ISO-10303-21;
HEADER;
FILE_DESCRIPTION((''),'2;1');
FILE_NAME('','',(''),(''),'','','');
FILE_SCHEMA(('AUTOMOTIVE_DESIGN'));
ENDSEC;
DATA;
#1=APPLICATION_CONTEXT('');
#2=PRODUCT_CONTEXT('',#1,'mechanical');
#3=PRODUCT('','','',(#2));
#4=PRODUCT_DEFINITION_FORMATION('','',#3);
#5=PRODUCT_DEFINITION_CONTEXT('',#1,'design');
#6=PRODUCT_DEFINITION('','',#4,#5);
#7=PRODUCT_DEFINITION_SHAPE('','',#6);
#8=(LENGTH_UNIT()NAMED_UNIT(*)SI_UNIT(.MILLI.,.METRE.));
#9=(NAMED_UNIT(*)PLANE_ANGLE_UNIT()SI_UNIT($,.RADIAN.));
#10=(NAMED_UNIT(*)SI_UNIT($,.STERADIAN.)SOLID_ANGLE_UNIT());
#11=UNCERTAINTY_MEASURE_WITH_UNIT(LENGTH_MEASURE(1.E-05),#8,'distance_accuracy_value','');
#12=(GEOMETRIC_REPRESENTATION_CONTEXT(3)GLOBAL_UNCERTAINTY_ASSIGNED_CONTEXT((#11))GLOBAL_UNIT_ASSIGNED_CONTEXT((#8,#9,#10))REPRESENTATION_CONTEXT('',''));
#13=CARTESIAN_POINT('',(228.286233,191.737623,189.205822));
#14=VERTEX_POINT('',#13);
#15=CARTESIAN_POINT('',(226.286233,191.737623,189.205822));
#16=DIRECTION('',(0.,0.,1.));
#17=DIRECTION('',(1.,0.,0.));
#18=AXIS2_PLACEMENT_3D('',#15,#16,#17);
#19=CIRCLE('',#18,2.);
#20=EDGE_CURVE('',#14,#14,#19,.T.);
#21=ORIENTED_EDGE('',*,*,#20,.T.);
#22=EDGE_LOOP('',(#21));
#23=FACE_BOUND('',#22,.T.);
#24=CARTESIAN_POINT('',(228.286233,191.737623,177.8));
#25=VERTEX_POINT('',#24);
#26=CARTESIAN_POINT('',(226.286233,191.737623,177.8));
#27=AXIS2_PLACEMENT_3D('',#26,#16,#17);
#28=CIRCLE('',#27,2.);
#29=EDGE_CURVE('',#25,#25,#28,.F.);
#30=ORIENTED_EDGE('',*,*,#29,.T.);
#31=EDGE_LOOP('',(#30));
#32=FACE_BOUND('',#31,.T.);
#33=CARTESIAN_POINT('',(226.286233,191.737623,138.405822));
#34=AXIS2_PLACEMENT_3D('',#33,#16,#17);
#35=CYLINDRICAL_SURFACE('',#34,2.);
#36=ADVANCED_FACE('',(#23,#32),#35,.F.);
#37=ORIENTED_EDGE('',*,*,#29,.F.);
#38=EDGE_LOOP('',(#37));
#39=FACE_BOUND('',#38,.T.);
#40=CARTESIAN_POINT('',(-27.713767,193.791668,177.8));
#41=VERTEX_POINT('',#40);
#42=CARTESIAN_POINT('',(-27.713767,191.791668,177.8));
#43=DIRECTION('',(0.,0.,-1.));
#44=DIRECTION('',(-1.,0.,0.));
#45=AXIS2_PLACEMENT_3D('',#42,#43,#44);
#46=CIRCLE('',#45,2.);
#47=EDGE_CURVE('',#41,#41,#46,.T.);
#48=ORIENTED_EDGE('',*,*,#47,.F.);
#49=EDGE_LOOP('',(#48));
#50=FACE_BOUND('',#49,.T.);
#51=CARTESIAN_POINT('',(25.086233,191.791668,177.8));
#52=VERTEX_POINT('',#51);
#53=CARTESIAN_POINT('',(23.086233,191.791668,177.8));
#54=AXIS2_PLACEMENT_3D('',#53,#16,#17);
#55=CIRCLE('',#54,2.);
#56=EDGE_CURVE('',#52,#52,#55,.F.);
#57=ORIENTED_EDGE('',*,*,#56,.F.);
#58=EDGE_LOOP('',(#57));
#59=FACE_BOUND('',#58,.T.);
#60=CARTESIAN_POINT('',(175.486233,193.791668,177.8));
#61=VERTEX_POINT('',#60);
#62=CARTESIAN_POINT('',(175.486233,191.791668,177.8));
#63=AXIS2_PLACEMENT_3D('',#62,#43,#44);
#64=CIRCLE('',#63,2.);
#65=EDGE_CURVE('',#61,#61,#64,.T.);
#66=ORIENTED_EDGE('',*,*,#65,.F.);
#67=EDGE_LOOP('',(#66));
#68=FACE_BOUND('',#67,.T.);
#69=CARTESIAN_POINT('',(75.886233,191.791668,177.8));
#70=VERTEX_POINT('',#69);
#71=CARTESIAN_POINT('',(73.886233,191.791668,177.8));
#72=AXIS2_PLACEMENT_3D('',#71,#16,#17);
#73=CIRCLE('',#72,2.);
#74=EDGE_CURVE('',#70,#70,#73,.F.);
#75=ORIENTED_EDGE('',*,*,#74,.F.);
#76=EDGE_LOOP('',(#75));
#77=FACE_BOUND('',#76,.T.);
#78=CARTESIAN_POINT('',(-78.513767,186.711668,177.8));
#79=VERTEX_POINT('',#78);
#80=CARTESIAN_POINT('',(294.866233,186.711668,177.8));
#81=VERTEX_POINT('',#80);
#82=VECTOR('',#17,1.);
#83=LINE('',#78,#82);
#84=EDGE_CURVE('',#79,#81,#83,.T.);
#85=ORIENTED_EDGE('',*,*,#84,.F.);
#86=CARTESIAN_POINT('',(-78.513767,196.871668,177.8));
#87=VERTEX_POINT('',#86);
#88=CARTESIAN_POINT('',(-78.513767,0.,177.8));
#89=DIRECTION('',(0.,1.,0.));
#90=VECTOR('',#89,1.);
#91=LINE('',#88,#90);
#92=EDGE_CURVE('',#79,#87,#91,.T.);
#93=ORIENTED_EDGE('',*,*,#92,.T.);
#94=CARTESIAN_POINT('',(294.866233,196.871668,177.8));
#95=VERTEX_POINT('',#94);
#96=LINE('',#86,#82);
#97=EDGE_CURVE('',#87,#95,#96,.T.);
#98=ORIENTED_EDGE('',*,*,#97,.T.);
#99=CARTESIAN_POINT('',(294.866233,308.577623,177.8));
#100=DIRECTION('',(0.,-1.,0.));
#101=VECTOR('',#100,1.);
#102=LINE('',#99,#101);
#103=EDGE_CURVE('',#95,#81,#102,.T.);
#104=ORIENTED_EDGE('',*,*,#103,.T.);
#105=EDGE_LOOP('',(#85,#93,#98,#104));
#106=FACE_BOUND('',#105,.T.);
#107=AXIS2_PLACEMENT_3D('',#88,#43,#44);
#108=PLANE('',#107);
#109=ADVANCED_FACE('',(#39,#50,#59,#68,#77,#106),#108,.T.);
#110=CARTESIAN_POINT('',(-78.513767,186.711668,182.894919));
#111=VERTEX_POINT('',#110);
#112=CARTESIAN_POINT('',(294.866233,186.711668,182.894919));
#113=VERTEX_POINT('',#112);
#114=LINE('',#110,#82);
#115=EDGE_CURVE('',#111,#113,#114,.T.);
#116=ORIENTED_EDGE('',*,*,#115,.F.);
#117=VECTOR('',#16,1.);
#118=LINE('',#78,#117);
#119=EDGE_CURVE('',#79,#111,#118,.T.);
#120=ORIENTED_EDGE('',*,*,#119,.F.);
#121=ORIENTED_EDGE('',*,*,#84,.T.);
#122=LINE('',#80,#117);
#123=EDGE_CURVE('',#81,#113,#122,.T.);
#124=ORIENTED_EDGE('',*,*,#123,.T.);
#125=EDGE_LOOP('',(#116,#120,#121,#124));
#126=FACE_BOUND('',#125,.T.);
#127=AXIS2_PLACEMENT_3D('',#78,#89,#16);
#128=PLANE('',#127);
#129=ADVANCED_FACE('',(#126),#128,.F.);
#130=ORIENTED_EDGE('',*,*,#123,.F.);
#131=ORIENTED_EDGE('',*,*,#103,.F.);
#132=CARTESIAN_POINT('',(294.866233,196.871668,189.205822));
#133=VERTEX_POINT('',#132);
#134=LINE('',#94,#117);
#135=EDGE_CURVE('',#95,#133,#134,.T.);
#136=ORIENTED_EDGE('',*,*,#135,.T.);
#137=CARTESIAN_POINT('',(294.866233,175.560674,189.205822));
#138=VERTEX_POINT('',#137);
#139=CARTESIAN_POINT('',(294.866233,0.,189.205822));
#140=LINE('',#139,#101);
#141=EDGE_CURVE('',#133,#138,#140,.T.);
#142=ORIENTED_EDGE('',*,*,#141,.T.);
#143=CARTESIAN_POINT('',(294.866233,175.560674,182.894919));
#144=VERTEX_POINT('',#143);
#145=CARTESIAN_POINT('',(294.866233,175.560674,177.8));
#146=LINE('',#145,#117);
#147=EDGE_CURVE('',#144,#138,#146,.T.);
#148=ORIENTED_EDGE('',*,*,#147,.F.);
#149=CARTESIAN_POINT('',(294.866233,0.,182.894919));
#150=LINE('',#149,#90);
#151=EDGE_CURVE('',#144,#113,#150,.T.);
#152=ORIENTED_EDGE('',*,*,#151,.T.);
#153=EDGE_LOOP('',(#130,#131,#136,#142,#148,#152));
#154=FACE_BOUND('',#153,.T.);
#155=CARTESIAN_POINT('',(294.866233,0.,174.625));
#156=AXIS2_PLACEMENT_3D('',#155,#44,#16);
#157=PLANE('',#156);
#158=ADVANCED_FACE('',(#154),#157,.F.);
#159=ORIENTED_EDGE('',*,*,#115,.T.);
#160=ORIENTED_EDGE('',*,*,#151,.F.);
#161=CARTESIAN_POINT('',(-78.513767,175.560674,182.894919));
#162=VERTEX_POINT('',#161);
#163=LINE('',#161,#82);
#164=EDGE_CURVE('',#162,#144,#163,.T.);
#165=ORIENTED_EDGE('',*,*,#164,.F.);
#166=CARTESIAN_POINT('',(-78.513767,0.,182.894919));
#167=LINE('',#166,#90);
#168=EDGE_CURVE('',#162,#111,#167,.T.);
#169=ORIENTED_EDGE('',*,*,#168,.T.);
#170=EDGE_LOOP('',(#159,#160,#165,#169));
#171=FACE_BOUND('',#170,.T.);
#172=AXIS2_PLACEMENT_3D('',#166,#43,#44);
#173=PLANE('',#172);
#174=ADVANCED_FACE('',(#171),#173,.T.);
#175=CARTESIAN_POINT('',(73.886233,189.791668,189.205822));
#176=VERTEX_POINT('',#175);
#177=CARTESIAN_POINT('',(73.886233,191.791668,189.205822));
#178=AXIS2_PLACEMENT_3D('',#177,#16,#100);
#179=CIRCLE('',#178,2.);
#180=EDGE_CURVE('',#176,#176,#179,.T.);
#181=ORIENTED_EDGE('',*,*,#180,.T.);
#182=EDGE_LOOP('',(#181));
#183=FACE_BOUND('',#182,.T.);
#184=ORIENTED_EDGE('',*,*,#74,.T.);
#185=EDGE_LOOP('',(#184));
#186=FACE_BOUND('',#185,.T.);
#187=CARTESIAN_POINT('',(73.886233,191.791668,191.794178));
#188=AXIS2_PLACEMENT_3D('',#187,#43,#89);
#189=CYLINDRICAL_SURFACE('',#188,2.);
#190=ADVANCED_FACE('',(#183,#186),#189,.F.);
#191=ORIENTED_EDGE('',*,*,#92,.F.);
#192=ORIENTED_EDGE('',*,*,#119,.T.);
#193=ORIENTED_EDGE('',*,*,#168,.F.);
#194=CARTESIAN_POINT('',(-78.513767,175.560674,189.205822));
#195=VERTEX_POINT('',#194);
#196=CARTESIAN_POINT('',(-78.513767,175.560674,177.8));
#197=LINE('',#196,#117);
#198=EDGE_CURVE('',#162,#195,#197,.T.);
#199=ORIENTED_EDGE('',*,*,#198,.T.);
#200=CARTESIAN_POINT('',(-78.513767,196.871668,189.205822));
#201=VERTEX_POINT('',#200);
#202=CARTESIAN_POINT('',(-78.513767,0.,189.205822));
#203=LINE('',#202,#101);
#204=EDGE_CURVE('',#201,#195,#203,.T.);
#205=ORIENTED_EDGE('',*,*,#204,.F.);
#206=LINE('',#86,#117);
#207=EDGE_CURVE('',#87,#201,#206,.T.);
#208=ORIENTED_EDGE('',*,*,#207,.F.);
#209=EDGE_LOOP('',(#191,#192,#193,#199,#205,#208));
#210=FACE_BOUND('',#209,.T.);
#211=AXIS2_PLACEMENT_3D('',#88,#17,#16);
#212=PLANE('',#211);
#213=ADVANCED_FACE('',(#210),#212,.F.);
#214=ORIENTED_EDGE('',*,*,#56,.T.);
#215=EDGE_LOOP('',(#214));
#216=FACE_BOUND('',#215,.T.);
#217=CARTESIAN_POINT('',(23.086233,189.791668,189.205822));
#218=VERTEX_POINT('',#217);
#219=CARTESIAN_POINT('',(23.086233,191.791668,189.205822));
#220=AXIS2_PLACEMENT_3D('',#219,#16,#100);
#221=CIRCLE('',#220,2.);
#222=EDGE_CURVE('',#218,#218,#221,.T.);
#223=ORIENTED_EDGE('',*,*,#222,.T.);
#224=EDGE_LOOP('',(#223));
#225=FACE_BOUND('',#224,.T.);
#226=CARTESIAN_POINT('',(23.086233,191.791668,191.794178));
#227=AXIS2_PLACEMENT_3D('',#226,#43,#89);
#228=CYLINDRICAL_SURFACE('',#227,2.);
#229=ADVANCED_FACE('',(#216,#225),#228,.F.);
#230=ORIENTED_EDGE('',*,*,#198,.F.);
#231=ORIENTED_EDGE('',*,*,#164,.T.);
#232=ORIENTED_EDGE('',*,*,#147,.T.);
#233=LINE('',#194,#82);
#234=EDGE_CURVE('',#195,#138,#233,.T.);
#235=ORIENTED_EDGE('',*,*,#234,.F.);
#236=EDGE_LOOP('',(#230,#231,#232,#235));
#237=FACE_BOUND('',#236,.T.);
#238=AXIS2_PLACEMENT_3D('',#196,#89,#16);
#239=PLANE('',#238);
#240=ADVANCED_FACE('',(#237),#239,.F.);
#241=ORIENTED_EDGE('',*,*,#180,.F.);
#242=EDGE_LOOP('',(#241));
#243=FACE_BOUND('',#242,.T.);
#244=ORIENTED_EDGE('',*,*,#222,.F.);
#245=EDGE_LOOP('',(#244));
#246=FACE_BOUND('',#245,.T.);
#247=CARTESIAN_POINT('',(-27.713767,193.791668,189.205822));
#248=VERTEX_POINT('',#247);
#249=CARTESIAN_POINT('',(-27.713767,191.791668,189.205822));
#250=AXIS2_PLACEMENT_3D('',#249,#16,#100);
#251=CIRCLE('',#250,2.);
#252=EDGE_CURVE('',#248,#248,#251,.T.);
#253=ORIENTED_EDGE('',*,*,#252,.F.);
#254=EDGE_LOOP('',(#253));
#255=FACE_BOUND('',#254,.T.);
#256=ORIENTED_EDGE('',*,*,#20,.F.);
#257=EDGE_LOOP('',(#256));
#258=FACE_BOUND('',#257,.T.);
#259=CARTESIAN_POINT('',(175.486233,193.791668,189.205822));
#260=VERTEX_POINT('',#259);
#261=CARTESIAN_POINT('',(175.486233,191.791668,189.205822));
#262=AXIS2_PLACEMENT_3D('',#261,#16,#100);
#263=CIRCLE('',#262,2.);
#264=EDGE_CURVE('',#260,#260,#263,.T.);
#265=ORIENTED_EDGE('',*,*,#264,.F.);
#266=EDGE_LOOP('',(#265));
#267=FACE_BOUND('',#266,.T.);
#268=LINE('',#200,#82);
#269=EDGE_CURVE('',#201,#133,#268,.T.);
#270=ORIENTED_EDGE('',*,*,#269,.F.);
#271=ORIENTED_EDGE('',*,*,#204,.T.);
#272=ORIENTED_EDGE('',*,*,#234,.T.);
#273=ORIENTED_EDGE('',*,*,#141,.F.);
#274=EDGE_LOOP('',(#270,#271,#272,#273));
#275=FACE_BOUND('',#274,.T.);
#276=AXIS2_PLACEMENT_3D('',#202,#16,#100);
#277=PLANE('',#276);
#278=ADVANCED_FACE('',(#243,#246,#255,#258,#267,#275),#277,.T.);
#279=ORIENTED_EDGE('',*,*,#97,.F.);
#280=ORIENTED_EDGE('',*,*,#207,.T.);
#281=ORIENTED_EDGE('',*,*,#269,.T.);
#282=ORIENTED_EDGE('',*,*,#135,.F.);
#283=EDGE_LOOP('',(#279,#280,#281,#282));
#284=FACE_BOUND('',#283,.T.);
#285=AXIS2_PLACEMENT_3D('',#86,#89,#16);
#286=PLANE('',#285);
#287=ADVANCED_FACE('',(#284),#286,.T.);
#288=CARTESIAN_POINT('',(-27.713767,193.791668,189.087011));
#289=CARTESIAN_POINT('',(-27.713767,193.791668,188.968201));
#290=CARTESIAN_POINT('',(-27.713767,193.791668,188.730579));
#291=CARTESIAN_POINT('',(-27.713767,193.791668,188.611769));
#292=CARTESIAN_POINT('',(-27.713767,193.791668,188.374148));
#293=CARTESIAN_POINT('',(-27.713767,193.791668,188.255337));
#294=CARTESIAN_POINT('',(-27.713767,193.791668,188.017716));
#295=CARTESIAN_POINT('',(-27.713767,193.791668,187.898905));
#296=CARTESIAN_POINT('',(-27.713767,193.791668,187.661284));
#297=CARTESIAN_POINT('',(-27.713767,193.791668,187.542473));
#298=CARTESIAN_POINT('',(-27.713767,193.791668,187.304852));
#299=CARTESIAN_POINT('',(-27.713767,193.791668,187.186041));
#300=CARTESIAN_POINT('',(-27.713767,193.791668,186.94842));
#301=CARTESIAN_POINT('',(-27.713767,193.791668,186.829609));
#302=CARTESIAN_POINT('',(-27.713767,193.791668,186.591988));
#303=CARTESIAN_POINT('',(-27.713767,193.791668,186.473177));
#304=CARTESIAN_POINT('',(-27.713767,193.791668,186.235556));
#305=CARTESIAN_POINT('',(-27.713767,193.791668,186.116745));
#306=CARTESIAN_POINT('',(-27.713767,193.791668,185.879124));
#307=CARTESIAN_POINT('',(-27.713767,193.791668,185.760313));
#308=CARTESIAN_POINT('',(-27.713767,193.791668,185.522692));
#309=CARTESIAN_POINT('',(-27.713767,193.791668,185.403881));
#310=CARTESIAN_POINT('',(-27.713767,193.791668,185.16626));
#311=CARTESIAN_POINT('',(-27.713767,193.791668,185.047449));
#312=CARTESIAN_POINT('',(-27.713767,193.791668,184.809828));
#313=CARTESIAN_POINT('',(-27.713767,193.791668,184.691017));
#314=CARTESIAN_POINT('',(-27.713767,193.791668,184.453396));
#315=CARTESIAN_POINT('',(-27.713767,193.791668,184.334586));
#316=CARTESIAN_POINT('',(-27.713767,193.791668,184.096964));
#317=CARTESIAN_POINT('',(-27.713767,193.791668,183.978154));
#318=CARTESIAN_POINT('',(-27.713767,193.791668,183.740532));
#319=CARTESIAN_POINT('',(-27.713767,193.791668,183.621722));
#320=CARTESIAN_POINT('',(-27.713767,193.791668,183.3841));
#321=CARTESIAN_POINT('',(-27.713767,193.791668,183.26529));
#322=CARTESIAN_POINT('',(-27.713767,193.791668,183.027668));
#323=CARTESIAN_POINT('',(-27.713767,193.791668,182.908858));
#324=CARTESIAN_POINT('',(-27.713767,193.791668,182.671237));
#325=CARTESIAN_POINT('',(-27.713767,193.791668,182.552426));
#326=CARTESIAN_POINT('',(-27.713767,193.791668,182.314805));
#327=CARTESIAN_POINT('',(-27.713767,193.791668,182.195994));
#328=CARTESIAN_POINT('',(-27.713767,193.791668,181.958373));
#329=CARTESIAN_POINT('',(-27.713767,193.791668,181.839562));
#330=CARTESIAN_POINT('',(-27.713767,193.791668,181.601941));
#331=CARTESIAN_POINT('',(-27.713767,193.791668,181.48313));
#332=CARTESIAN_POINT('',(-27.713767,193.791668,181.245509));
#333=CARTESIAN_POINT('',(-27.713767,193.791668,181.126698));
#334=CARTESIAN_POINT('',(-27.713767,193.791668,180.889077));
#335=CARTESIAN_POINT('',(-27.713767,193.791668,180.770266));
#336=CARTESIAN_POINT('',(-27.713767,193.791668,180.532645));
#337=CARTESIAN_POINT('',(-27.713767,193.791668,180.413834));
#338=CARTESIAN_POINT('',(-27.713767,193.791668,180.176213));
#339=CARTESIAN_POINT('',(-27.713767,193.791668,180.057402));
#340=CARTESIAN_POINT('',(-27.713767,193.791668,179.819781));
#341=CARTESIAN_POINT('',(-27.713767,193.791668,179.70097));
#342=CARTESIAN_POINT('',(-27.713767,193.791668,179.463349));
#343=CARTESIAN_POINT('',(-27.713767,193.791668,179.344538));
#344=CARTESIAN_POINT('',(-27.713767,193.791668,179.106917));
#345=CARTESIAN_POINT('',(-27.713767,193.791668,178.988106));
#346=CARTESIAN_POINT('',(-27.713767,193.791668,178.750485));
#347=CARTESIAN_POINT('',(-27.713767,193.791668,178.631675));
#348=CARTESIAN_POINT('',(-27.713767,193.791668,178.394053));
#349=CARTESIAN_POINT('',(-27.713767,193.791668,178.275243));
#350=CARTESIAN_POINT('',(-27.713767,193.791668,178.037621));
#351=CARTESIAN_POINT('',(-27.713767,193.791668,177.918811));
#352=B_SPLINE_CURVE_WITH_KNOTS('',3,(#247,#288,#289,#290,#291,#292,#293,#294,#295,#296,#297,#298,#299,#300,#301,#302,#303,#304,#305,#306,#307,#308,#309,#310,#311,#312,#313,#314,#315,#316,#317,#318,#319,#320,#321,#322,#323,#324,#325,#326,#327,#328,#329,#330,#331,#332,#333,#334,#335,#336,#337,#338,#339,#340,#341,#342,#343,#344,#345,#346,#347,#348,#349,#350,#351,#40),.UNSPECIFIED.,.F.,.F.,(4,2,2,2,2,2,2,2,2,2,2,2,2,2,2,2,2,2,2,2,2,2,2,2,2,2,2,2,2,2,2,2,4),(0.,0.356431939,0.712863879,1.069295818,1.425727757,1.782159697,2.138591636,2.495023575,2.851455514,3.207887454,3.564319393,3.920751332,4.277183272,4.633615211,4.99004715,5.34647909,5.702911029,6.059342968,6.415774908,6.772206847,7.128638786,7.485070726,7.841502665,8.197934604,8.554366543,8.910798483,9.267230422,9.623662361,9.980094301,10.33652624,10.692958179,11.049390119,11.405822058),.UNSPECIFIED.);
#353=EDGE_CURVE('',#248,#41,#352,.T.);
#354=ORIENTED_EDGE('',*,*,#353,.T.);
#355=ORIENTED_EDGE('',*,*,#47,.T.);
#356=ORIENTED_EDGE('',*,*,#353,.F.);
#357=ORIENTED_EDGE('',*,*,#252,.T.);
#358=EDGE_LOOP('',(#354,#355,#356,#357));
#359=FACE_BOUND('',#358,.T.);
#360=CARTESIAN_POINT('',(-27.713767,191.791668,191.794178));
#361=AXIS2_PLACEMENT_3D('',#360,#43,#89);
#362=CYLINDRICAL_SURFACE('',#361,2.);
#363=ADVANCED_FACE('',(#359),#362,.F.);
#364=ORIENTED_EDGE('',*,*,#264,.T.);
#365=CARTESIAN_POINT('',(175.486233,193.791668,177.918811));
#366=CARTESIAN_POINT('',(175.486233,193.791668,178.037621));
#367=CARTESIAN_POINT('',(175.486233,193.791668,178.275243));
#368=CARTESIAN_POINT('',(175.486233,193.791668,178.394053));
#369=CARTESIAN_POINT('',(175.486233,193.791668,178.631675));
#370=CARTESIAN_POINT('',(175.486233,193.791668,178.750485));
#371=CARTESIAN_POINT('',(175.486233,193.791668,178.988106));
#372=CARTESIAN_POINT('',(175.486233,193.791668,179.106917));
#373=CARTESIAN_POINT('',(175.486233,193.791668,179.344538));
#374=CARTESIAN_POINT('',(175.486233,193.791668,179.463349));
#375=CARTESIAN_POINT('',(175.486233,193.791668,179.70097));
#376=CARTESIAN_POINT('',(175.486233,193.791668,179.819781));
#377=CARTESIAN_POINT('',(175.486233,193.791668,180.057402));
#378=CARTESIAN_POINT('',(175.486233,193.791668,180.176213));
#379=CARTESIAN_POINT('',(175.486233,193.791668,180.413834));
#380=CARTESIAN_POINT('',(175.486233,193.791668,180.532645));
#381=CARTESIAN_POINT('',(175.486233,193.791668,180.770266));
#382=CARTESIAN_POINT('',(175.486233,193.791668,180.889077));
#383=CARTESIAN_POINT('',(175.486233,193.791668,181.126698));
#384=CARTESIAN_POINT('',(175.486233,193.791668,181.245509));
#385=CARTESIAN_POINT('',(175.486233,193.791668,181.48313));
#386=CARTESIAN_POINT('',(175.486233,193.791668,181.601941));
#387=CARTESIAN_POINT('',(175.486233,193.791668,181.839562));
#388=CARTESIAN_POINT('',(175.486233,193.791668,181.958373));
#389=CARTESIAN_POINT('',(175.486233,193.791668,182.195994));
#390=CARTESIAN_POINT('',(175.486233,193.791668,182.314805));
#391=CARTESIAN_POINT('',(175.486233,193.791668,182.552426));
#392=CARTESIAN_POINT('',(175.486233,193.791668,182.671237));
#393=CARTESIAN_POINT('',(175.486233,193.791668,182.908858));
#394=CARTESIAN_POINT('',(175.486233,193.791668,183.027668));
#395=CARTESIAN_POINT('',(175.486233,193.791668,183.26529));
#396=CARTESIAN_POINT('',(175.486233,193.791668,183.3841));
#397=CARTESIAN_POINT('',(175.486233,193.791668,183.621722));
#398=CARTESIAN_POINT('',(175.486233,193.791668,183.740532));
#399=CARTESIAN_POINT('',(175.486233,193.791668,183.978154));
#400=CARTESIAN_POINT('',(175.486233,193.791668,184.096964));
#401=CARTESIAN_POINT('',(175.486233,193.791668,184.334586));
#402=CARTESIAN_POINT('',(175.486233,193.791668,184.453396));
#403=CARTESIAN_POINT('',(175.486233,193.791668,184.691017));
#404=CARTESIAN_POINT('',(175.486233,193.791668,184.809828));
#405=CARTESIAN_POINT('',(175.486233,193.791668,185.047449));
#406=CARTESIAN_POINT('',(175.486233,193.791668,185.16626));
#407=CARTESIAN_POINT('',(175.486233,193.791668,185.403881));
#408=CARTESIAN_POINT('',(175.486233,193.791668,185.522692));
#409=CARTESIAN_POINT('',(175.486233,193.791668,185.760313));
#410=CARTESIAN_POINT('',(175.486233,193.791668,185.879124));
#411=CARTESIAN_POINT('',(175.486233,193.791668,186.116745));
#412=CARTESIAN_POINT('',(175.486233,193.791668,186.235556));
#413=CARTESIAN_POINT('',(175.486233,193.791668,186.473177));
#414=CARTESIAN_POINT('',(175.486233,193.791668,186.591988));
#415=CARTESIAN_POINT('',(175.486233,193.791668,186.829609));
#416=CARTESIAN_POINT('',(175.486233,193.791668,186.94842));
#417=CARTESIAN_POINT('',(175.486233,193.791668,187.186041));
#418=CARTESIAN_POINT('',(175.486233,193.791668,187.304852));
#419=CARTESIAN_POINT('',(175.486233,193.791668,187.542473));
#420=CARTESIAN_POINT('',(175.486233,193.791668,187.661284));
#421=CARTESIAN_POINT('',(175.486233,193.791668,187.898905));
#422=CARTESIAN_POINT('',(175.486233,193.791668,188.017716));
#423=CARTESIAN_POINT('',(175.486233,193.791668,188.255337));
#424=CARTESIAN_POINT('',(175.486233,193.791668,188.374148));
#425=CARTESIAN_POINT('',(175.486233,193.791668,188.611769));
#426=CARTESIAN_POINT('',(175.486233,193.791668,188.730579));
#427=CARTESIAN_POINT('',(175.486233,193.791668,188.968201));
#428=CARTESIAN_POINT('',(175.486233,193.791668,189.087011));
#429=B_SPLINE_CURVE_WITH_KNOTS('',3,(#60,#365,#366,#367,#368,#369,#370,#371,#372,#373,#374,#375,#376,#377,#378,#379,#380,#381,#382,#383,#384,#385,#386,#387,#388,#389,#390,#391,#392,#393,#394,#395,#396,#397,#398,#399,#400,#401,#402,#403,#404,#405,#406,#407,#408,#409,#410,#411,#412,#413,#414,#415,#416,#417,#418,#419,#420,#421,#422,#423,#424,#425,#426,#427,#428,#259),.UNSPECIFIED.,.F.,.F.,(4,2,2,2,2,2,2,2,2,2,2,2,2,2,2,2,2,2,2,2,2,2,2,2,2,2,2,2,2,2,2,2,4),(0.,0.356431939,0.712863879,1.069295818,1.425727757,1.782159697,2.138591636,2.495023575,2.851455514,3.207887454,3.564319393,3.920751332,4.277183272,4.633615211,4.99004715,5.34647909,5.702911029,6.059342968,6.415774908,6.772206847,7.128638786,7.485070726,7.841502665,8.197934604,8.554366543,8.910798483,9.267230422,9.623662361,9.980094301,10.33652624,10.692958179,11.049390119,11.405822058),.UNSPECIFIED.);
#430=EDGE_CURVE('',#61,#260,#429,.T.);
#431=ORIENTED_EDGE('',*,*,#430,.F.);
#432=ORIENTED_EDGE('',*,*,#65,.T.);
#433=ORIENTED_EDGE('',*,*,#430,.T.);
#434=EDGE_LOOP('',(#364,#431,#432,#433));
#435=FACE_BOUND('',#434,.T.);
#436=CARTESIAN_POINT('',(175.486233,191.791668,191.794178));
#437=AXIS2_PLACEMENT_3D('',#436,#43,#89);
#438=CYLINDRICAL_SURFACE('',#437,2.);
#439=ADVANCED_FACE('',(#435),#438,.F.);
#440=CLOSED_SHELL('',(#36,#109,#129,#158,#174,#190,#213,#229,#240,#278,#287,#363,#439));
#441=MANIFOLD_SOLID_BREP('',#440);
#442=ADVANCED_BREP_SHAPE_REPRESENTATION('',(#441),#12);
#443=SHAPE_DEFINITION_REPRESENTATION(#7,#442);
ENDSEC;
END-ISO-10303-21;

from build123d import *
from build123d.topology import SkipClean

# Parameters (mm, degrees)
BOSS_EXTRUDE1_DEPTH     = 177.8
SKETCH2_R               = 6.35
BOSS_EXTRUDE2_DEPTH     = 3.175
CUT_EXTRUDE1_DEPTH      = 7.62
SKETCH4_R               = 35.56
CUT_EXTRUDE2_DEPTH      = 5.08
BOSS_EXTRUDE3_DEPTH     = 3.175
BOSS_EXTRUDE4_START     = -3.175
BOSS_EXTRUDE4_DEPTH     = 3.175
SKETCH2_3_R             = 6.35
CUT_EXTRUDE3_DEPTH      = 203.2
SKETCH7_W               = 104.303861479
SKETCH7_H               = 17.78
CUT_EXTRUDE4_DEPTH      = 7.62
SKETCH9_W               = 5.09491902
SKETCH9_H               = 10.16
BOSS_EXTRUDE5_DEPTH     = 373.38
SKETCH10_W              = 16.389929124
SKETCH10_H              = 55.852942909
CUT_EXTRUDE5_DEPTH      = 50.8
SKETCH11_W              = 37.311204657
SKETCH11_H              = 70.036499624
CUT_EXTRUDE6_DEPTH      = 63.5
CUT_EXTRUDE_THIN3_DEPTH = 1.27
BOSS_EXTRUDE6_DEPTH     = 1.27
BOSS_EXTRUDE6_2_DEPTH   = 1.27
BOSS_EXTRUDE6_3_DEPTH   = 1.27
BOSS_EXTRUDE6_4_DEPTH   = 1.27
SKETCH14_R              = 6.35
CUT_EXTRUDE7_DEPTH      = 6.35
SKETCH15_R              = 6.35
CUT_EXTRUDE8_DEPTH      = 6.35
SKETCH16_R              = 2
CUT_EXTRUDE9_DEPTH      = 203.2
SKETCH17_R              = 2
CUT_EXTRUDE10_DEPTH     = 50.8
CUT_EXTRUDE11_DEPTH     = 50.8
CUT_EXTRUDE12_DEPTH     = 135.636
SKETCH20_W              = 88.9
SKETCH20_H              = 19.05
CUT_EXTRUDE13_DEPTH     = 25.4
SKETCH22_W              = 88.9
SKETCH22_H              = 19.05
CUT_EXTRUDE14_DEPTH     = 25.4
CUT_EXTRUDE15_DEPTH     = 12.7
SKETCH24_R              = 1.5
CUT_EXTRUDE16_DEPTH     = 12.7
SKETCH25_W              = 262.331886811
SKETCH25_H              = 349.210695903
CUT_EXTRUDE17_DEPTH     = 381


with BuildPart() as part:
    # Sketch1 → Boss-Extrude1 (new body)
    with BuildSketch(Plane.XY):
        Polygon((174.206706958, 205.225588808), (176.700980282, 203.057350086), (6.59291173, 7.37040221), (4.098638405, 9.538640932), align=None)
        Polygon((176.700980282, 203.057350086), (176.700980282, 207.584488047), (174.206706958, 205.225588808), align=None)
        Polygon((176.700980282, 203.057350086), (176.700980282, 207.584488047), (294.86623267, 79.97762329), (292.609334988, 77.887713122), align=None)
        Polygon((176.700980282, 203.057350086), (6.59291173, 7.37040221), (11.706315855, 7.37040221), (176.700980282, 197.43083223), align=None)
        Polygon((292.609334988, 77.887713122), (179.222024463, 200.334870023), (176.700980282, 197.43083223), (289.802992908, 75.306026972), align=None)
        Polygon((179.222024463, 200.334870023), (176.700980282, 203.057350086), (176.700980282, 197.43083223), align=None)
    extrude(amount=BOSS_EXTRUDE1_DEPTH)

    # Sketch2 → Boss-Extrude2 (add)
    with BuildSketch(Plane(origin=(0, 0, 0), x_dir=(-1, 0, 0), z_dir=(0, 0, -1))):
        Polygon((-176.700980282, 207.584488047), (-294.86623267, 79.97762329), (-294.86623267, 308.57762329), (-4.03623267, 308.57762329), (-4.03623267, 9.466851346), align=None)
        with Locations((-109.551832016, 215.6073789)):
            Circle(SKETCH2_R, mode=Mode.SUBTRACT)
        with Locations((-50.099162461, 143.63835786)):
            Circle(SKETCH2_R, mode=Mode.SUBTRACT)
    boss_extrude2 = extrude(amount=-BOSS_EXTRUDE2_DEPTH)

    # Mirror1: Boss-Extrude2 across plane
    add(boss_extrude2.mirror(Plane.XY.offset(88.9)))

    # Sketch3 → Cut-Extrude1 (cut)
    with BuildSketch(Plane(origin=(-2.388376456, 2.076183978, 0), x_dir=(0.6560590289905027, 0.754709580222776, 0), z_dir=(-0.754709580222776, 0.6560590289905027, 0))):
        Polygon((146.938003774, -3.175), (147.021985505, -88.9), (210.43489334, -88.9), (210.43489334, -3.175), align=None)
        Polygon((210.43489334, -88.9), (147.021985505, -88.9), (147.047852426, -115.303859178), (210.43489334, -115.303859178), align=None)
    extrude(amount=-CUT_EXTRUDE1_DEPTH, mode=Mode.SUBTRACT)

    # Sketch4 → Cut-Extrude2 (cut)
    with BuildSketch(Plane.XY.offset(3.175)):
        with Locations((115.138547862, 136.94700246)):
            Circle(SKETCH4_R)
    extrude(amount=-CUT_EXTRUDE2_DEPTH, mode=Mode.SUBTRACT)

    # Sketch5 → Boss-Extrude3 (add)
    with BuildSketch(Plane(origin=(0, 0, 0), x_dir=(-1, 0, 0), z_dir=(0, 0, -1))):
        with BuildLine():
            Line((23.718677813, 87.809342908), (-4.03623267, 87.809342908))
            Line((-4.03623267, 87.809342908), (-4.03623267, 68.97229904))
            ThreePointArc((-4.03623267, 68.97229904), (2.710389506, 69.812621892), (6.35, 64.070123417))
            ThreePointArc((6.35, 64.070123417), (2.710389506, 58.327624943), (-4.03623267, 59.167947795))
            Line((-4.03623267, 59.167947795), (-4.03623267, 41.258157594))
            Line((-4.03623267, 41.258157594), (23.718677813, 41.258157594))
            Line((23.718677813, 41.258157594), (23.718677813, 87.809342908))
        make_face()
    extrude(amount=-BOSS_EXTRUDE3_DEPTH)

    # Sketch6 → Boss-Extrude4 (add)
    with BuildSketch(Plane.XY.offset(177.8).offset(BOSS_EXTRUDE4_START)):
        with BuildLine():
            Line((4.03623267, 68.97229904), (4.03623267, 87.809342908))
            Line((4.03623267, 87.809342908), (-23.718677813, 87.809342908))
            Line((-23.718677813, 87.809342908), (-23.718677813, 41.258157594))
            Line((-23.718677813, 41.258157594), (4.03623267, 41.258157594))
            Line((4.03623267, 41.258157594), (4.03623267, 59.167947795))
            ThreePointArc((4.03623267, 59.167947795), (-6.35, 64.070123417), (4.03623267, 68.97229904))
        make_face()
    extrude(amount=BOSS_EXTRUDE4_DEPTH)

    # Sketch2<3> → Cut-Extrude3 (cut)
    with SkipClean():  # the faces are left unmerged after this step: merging them gives an invalid solid
        with BuildSketch(Plane(origin=(0, 0, 0), x_dir=(-1, 0, 0), z_dir=(0, 0, -1))):
            with Locations((0, 64.070123417)):
                Circle(SKETCH2_3_R)
        extrude(amount=-CUT_EXTRUDE3_DEPTH, mode=Mode.SUBTRACT)

    # Sketch7 → Cut-Extrude4 (cut)
    with SkipClean():  # the faces are left unmerged after this step: merging them gives an invalid solid
        with BuildSketch(Plane(origin=(198.614996443, 183.919503291, 0), x_dir=(0, 0, -1), z_dir=(0.7337298645028701, 0.6794413042615234, 0))):
            with Locations((-88.799310538, -132.772327008)):
                Rectangle(SKETCH7_W, SKETCH7_H)
        extrude(amount=-CUT_EXTRUDE4_DEPTH, mode=Mode.SUBTRACT)

    # Sketch9 → Boss-Extrude5 (add)
    with SkipClean():  # the faces are left unmerged after this step: merging them gives an invalid solid
        with BuildSketch(Plane(origin=(294.86623267, 0, 0), x_dir=(0, 0, -1), z_dir=(1, 0, 0))):
            with Locations((2.54745951, 191.791667894)):
                Rectangle(SKETCH9_W, SKETCH9_H)
            Polygon((5.09491902, 196.871667894), (5.09491902, 186.711667894), (5.09491902, 175.560674011), (11.405822058, 175.560674011), (11.405822058, 196.871667894), align=None)
        boss_extrude5 = extrude(amount=-BOSS_EXTRUDE5_DEPTH)

    # Mirror2: Boss-Extrude5 across plane
    with SkipClean():  # the faces are left unmerged after this step: merging them gives an invalid solid
        add(boss_extrude5.mirror(Plane.XY.offset(88.9)))

    # Sketch10 → Cut-Extrude5 (cut)
    with SkipClean():  # the faces are left unmerged after this step: merging them gives an invalid solid
        with BuildSketch(Plane(origin=(294.86623267, 0, 0), x_dir=(0, 0, -1), z_dir=(1, 0, 0))):
            with Locations((8.194964562, 177.809205996)):
                Rectangle(SKETCH10_W, SKETCH10_H)
        extrude(amount=-CUT_EXTRUDE5_DEPTH, mode=Mode.SUBTRACT)

    # Sketch11 → Cut-Extrude6 (cut)
    with SkipClean():  # the faces are left unmerged after this step: merging them gives an invalid solid
        with BuildSketch(Plane(origin=(0, 0, 0), x_dir=(-1, 0, 0), z_dir=(0, 0, -1))):
            with Locations((-276.210630342, 174.143668429)):
                Rectangle(SKETCH11_W, SKETCH11_H)
        extrude(amount=-CUT_EXTRUDE6_DEPTH, mode=Mode.SUBTRACT)

    # Sketch12 → Cut-Extrude-Thin3 (cut)
    with SkipClean():  # the faces are left unmerged after this step: merging them gives an invalid solid
        with BuildSketch(Plane(origin=(198.614996443, 183.919503291, 0), x_dir=(0, 0, -1), z_dir=(0.7337298645028701, 0.6794413042615234, 0))):
            Polygon((-171.532951818, 28.022585612), (-143.20199229, -115.162103868), (-139.962790584, -114.521185535), (-168.293750113, 28.663503944), align=None)
            Polygon((-33.454545449, -115.162103868), (-6.228065693, 28.022585612), (-9.471942339, 28.639406741), (-36.698422095, -114.545282739), align=None)
        extrude(amount=-CUT_EXTRUDE_THIN3_DEPTH, mode=Mode.SUBTRACT)

    # Sketch14 → Cut-Extrude7 (cut)
    with SkipClean():  # the faces are left unmerged after this step: merging them gives an invalid solid
        with BuildSketch(Plane.XY.offset(3.175)):
            with Locations((25.62623267, 167.726388192)):
                Circle(SKETCH14_R)
        extrude(amount=-CUT_EXTRUDE7_DEPTH, mode=Mode.SUBTRACT)

    # Sketch15 → Cut-Extrude8 (cut)
    with SkipClean():  # the faces are left unmerged after this step: merging them gives an invalid solid
        with BuildSketch(Plane.XY.offset(177.8)):
            with Locations((25.62623267, 167.726388192)):
                Circle(SKETCH15_R)
        extrude(amount=-CUT_EXTRUDE8_DEPTH, mode=Mode.SUBTRACT)

    # Sketch16 → Cut-Extrude9 (cut)
    with SkipClean():  # the faces are left unmerged after this step: merging them gives an invalid solid
        with BuildSketch(Plane(origin=(0, 0, -11.405822058), x_dir=(-1, 0, 0), z_dir=(0, 0, -1))):
            with Locations(Location((-175.48623267, 191.791667894, 0), (0, 0, 90))):
                Circle(SKETCH16_R)
            with Locations(Location((-73.88623267, 191.791667894, 0), (0, 0, 180))):
                Circle(SKETCH16_R)
            with Locations(Location((-23.08623267, 191.791667894, 0), (0, 0, 180))):
                Circle(SKETCH16_R)
            with Locations(Location((27.71376733, 191.791667894, 0), (0, 0, 90))):
                Circle(SKETCH16_R)
        extrude(amount=-CUT_EXTRUDE9_DEPTH, mode=Mode.SUBTRACT)

    # Sketch17 → Cut-Extrude10 (cut)
    with SkipClean():  # the faces are left unmerged after this step: merging them gives an invalid solid
        with BuildSketch(Plane.XY.offset(189.205822058)):
            with Locations((226.28623267, 191.73762329)):
                Circle(SKETCH17_R)
        extrude(amount=-CUT_EXTRUDE10_DEPTH, mode=Mode.SUBTRACT)

    # Sketch18 → Cut-Extrude11 (cut)
    with SkipClean():  # the faces are left unmerged after this step: merging them gives an invalid solid
        with BuildSketch(Plane(origin=(198.614996443, 183.919503291, 0), x_dir=(0, 0, -1), z_dir=(0.7337298645028701, 0.6794413042615234, 0))):
            Polygon((-170.82495725, -33.509501551), (-170.82495725, -115.912858784), (-148.021512482, -115.912858784), (-165.124096058, -33.509501551), align=None)
        extrude(amount=-CUT_EXTRUDE11_DEPTH, mode=Mode.SUBTRACT)

    # Sketch19 → Cut-Extrude12 (cut)
    with SkipClean():  # the faces are left unmerged after this step: merging them gives an invalid solid
        with BuildSketch(Plane(origin=(198.614996443, 183.919503291, 0), x_dir=(0, 0, -1), z_dir=(0.7337298645028701, 0.6794413042615234, 0))):
            Polygon((-27.790980507, -115.912858784), (-12.83560064, -35.35545082), (-7.206169917, -35.35545082), (-7.206169917, -115.912858784), align=None)
        extrude(amount=-CUT_EXTRUDE12_DEPTH, mode=Mode.SUBTRACT)

    # Sketch20 → Cut-Extrude13 (cut)
    with SkipClean():  # the faces are left unmerged after this step: merging them gives an invalid solid
        with BuildSketch(Plane.XY.offset(177.8)):
            with BuildLine():
                Line((162.857920191, 291.02562329), (162.857920191, 292.57562329))
                Line((162.857920191, 292.57562329), (164.407920191, 292.57562329))
                ThreePointArc((164.407920191, 292.57562329), (161.76190468, 293.671638801), (162.857920191, 291.02562329))
            make_face()
            with BuildLine():
                Line((164.407920191, 292.57562329), (162.857920191, 292.57562329))
                Line((162.857920191, 292.57562329), (162.857920191, 291.02562329))
                ThreePointArc((162.857920191, 291.02562329), (163.953935702, 291.479607779), (164.407920191, 292.57562329))
            make_face()
            with BuildLine():
                ThreePointArc((266.007920191, 292.57562329), (264.457920191, 294.12562329), (262.907920191, 292.57562329))
                Line((262.907920191, 292.57562329), (264.457920191, 292.57562329))
                Line((264.457920191, 292.57562329), (264.457920191, 291.02562329))
                ThreePointArc((264.457920191, 291.02562329), (265.553935702, 291.479607779), (266.007920191, 292.57562329))
            make_face()
            with BuildLine():
                Line((264.457920191, 292.57562329), (262.907920191, 292.57562329))
                ThreePointArc((262.907920191, 292.57562329), (263.36190468, 291.479607779), (264.457920191, 291.02562329))
                Line((264.457920191, 291.02562329), (264.457920191, 292.57562329))
            make_face()
            with BuildLine():
                ThreePointArc((164.407920191, 241.77562329), (163.953935702, 242.871638801), (162.857920191, 243.32562329))
                Line((162.857920191, 243.32562329), (162.857920191, 241.77562329))
                Line((162.857920191, 241.77562329), (164.407920191, 241.77562329))
            make_face()
            with BuildLine():
                Line((162.857920191, 241.77562329), (162.857920191, 243.32562329))
                ThreePointArc((162.857920191, 243.32562329), (161.76190468, 240.679607779), (164.407920191, 241.77562329))
                Line((164.407920191, 241.77562329), (162.857920191, 241.77562329))
            make_face()
            with BuildLine():
                ThreePointArc((266.007920191, 241.77562329), (265.553935702, 242.871638801), (264.457920191, 243.32562329))
                Line((264.457920191, 243.32562329), (264.457920191, 241.77562329))
                Line((264.457920191, 241.77562329), (262.907920191, 241.77562329))
                ThreePointArc((262.907920191, 241.77562329), (264.457920191, 240.22562329), (266.007920191, 241.77562329))
            make_face()
            with BuildLine():
                Line((264.457920191, 241.77562329), (264.457920191, 243.32562329))
                ThreePointArc((264.457920191, 243.32562329), (263.36190468, 242.871638801), (262.907920191, 241.77562329))
                Line((262.907920191, 241.77562329), (264.457920191, 241.77562329))
            make_face()
            with Locations((213.657920191, 282.969686208)):
                Rectangle(SKETCH20_W, SKETCH20_H)
        extrude(amount=-CUT_EXTRUDE13_DEPTH, mode=Mode.SUBTRACT)

    # Sketch22 → Cut-Extrude14 (cut)
    with SkipClean():  # the faces are left unmerged after this step: merging them gives an invalid solid
        with BuildSketch(Plane(origin=(0, 0, 0), x_dir=(-1, 0, 0), z_dir=(0, 0, -1))):
            with BuildLine():
                Line((-264.581570713, 291.02562329), (-264.581570713, 292.57562329))
                Line((-264.581570713, 292.57562329), (-263.031570713, 292.57562329))
                ThreePointArc((-263.031570713, 292.57562329), (-265.677586224, 293.671638801), (-264.581570713, 291.02562329))
            make_face()
            with BuildLine():
                Line((-263.031570713, 292.57562329), (-264.581570713, 292.57562329))
                Line((-264.581570713, 292.57562329), (-264.581570713, 291.02562329))
                ThreePointArc((-264.581570713, 291.02562329), (-263.485555202, 291.479607779), (-263.031570713, 292.57562329))
            make_face()
            with BuildLine():
                ThreePointArc((-263.031570713, 241.77562329), (-263.485555202, 242.871638801), (-264.581570713, 243.32562329))
                Line((-264.581570713, 243.32562329), (-264.581570713, 241.77562329))
                Line((-264.581570713, 241.77562329), (-263.031570713, 241.77562329))
            make_face()
            with BuildLine():
                Line((-264.581570713, 241.77562329), (-264.581570713, 243.32562329))
                ThreePointArc((-264.581570713, 243.32562329), (-265.677586224, 240.679607779), (-263.031570713, 241.77562329))
                Line((-263.031570713, 241.77562329), (-264.581570713, 241.77562329))
            make_face()
            with BuildLine():
                ThreePointArc((-161.431570713, 292.57562329), (-162.981570713, 294.12562329), (-164.531570713, 292.57562329))
                Line((-164.531570713, 292.57562329), (-162.981570713, 292.57562329))
                Line((-162.981570713, 292.57562329), (-162.981570713, 291.02562329))
                ThreePointArc((-162.981570713, 291.02562329), (-161.885555202, 291.479607779), (-161.431570713, 292.57562329))
            make_face()
            with BuildLine():
                Line((-162.981570713, 292.57562329), (-164.531570713, 292.57562329))
                ThreePointArc((-164.531570713, 292.57562329), (-164.077586224, 291.479607779), (-162.981570713, 291.02562329))
                Line((-162.981570713, 291.02562329), (-162.981570713, 292.57562329))
            make_face()
            with BuildLine():
                ThreePointArc((-161.431570713, 241.77562329), (-161.885555202, 242.871638801), (-162.981570713, 243.32562329))
                Line((-162.981570713, 243.32562329), (-162.981570713, 241.77562329))
                Line((-162.981570713, 241.77562329), (-164.531570713, 241.77562329))
                ThreePointArc((-164.531570713, 241.77562329), (-162.981570713, 240.22562329), (-161.431570713, 241.77562329))
            make_face()
            with BuildLine():
                Line((-162.981570713, 241.77562329), (-162.981570713, 243.32562329))
                ThreePointArc((-162.981570713, 243.32562329), (-164.077586224, 242.871638801), (-164.531570713, 241.77562329))
                Line((-164.531570713, 241.77562329), (-162.981570713, 241.77562329))
            make_face()
            with Locations((-213.781570713, 283.028383525)):
                Rectangle(SKETCH22_W, SKETCH22_H)
        extrude(amount=-CUT_EXTRUDE14_DEPTH, mode=Mode.SUBTRACT)

    # Sketch23 → Cut-Extrude15 (cut)
    with SkipClean():  # the faces are left unmerged after this step: merging them gives an invalid solid
        with BuildSketch(Plane(origin=(0, 0, 0), x_dir=(-1, 0, 0), z_dir=(0, 0, -1))):
            with BuildLine():
                ThreePointArc((-281.46966057, 89.27791623), (-283.589396682, 89.195947845), (-283.507428297, 87.076211733))
                Line((-283.507428297, 87.076211733), (-281.46966057, 89.27791623))
            make_face()
            with BuildLine():
                Line((-281.46966057, 89.27791623), (-283.507428297, 87.076211733))
                ThreePointArc((-283.507428297, 87.076211733), (-281.887847254, 86.802595758), (-280.988544434, 88.177063981))
                ThreePointArc((-280.988544434, 88.177063981), (-281.11407621, 88.777761162), (-281.46966057, 89.27791623))
            make_face()
            with BuildLine():
                ThreePointArc((-261.677113571, 110.662757672), (-263.796849683, 110.580789287), (-263.714881298, 108.461053175))
                Line((-263.714881298, 108.461053175), (-261.677113571, 110.662757672))
            make_face()
            with BuildLine():
                Line((-261.677113571, 110.662757672), (-263.714881298, 108.461053175))
                ThreePointArc((-263.714881298, 108.461053175), (-262.095300254, 108.1874372), (-261.195997434, 109.561905424))
                ThreePointArc((-261.195997434, 109.561905424), (-261.321529211, 110.162602604), (-261.677113571, 110.662757672))
            make_face()
            with BuildLine():
                ThreePointArc((-242.471013434, 131.413973074), (-244.590749546, 131.332004689), (-244.508781161, 129.212268577))
                Line((-244.508781161, 129.212268577), (-242.471013434, 131.413973074))
            make_face()
            with BuildLine():
                Line((-242.471013434, 131.413973074), (-244.508781161, 129.212268577))
                ThreePointArc((-244.508781161, 129.212268577), (-242.889200117, 128.938652602), (-241.989897298, 130.313120826))
                ThreePointArc((-241.989897298, 130.313120826), (-242.115429074, 130.913818006), (-242.471013434, 131.413973074))
            make_face()
            with BuildLine():
                ThreePointArc((-221.219107983, 154.375577179), (-223.338844094, 154.293608794), (-223.256875709, 152.173872682))
                Line((-223.256875709, 152.173872682), (-221.219107983, 154.375577179))
            make_face()
            with BuildLine():
                Line((-221.219107983, 154.375577179), (-223.256875709, 152.173872682))
                ThreePointArc((-223.256875709, 152.173872682), (-221.637294666, 151.900256707), (-220.737991846, 153.274724931))
                ThreePointArc((-220.737991846, 153.274724931), (-220.863523622, 153.875422111), (-221.219107983, 154.375577179))
            make_face()
            with BuildLine():
                ThreePointArc((-145.886078234, 168.131923716), (-146.764955289, 169.497283115), (-148.371686616, 169.262665118))
                Line((-148.371686616, 169.262665118), (-146.400469852, 167.001182315))
                ThreePointArc((-146.400469852, 167.001182315), (-146.020718836, 167.510800771), (-145.886078234, 168.131923716))
            make_face()
            with BuildLine():
                Line((-146.400469852, 167.001182315), (-148.371686616, 169.262665118))
                ThreePointArc((-148.371686616, 169.262665118), (-148.516819636, 167.146315334), (-146.400469852, 167.001182315))
            make_face()
            with BuildLine():
                ThreePointArc((-49.387047149, 57.423196347), (-50.265924204, 58.788555745), (-51.872655531, 58.553937749))
                Line((-51.872655531, 58.553937749), (-49.901438767, 56.292454945))
                ThreePointArc((-49.901438767, 56.292454945), (-49.521687751, 56.802073401), (-49.387047149, 57.423196347))
            make_face()
            with BuildLine():
                Line((-49.901438767, 56.292454945), (-51.872655531, 58.553937749))
                ThreePointArc((-51.872655531, 58.553937749), (-52.017788551, 56.437587965), (-49.901438767, 56.292454945))
            make_face()
            with BuildLine():
                ThreePointArc((-31.668427664, 37.095470857), (-32.547304719, 38.460830256), (-34.154036046, 38.226212259))
                Line((-34.154036046, 38.226212259), (-32.182819282, 35.964729456))
                ThreePointArc((-32.182819282, 35.964729456), (-31.803068266, 36.474347912), (-31.668427664, 37.095470857))
            make_face()
            with BuildLine():
                Line((-32.182819282, 35.964729456), (-34.154036046, 38.226212259))
                ThreePointArc((-34.154036046, 38.226212259), (-34.299169066, 36.109862475), (-32.182819282, 35.964729456))
            make_face()
            with BuildLine():
                ThreePointArc((-16.066850555, 19.196526928), (-16.94572761, 20.561886326), (-18.552458937, 20.327268329))
                Line((-18.552458937, 20.327268329), (-16.581242173, 18.065785526))
                ThreePointArc((-16.581242173, 18.065785526), (-16.201491157, 18.575403982), (-16.066850555, 19.196526928))
            make_face()
            with BuildLine():
                Line((-16.581242173, 18.065785526), (-18.552458937, 20.327268329))
                ThreePointArc((-18.552458937, 20.327268329), (-18.697591957, 18.210918546), (-16.581242173, 18.065785526))
            make_face()
        extrude(amount=-CUT_EXTRUDE15_DEPTH, mode=Mode.SUBTRACT)

    # Sketch24 → Cut-Extrude16 (cut)
    with SkipClean():  # the faces are left unmerged after this step: merging them gives an invalid solid
        with BuildSketch(Plane.XY.offset(177.8)):
            with Locations((277.221839581, 93.68533948)):
                Circle(SKETCH24_R)
            with Locations((256.088046252, 116.620130178)):
                Circle(SKETCH24_R)
            with Locations((233.352788284, 141.292860476)):
                Circle(SKETCH24_R)
            with Locations((211.758500856, 164.727388047)):
                Circle(SKETCH24_R)
            with Locations((135.020648746, 154.397680008)):
                Circle(SKETCH24_R)
            with Locations((113.672052573, 129.804959434)):
                Circle(SKETCH24_R)
            with Locations((89.546525068, 102.013326118)):
                Circle(SKETCH24_R)
            with Locations((62.67652141, 71.060167118)):
                Circle(SKETCH24_R)
            with Locations((39.522371339, 44.387521375)):
                Circle(SKETCH24_R)
        extrude(amount=-CUT_EXTRUDE16_DEPTH, mode=Mode.SUBTRACT)


with BuildPart() as body_2:
    # Sketch13 → Boss-Extrude6 (new body)
    with BuildSketch(Plane(origin=(198.614996443, 183.919503291, 0), x_dir=(0, 0, -1), z_dir=(0.7337298645028701, 0.6794413042615234, 0))):
        Polygon((-171.532951818, 28.022585612), (-171.375187306, 27.225243654), (-168.293750113, 28.663503944), align=None)
    extrude(amount=-BOSS_EXTRUDE6_DEPTH)


with BuildPart() as body_3:
    # Sketch13 → Boss-Extrude6 2 (new body)
    with BuildSketch(Plane(origin=(198.614996443, 183.919503291, 0), x_dir=(0, 0, -1), z_dir=(0.7337298645028701, 0.6794413042615234, 0))):
        Polygon((-143.20199229, -115.162103868), (-140.120555097, -113.723843577), (-139.962790584, -114.521185535), align=None)
    extrude(amount=-BOSS_EXTRUDE6_2_DEPTH)


with BuildPart() as body_4:
    # Sketch13 → Boss-Extrude6 3 (new body)
    with BuildSketch(Plane(origin=(198.614996443, 183.919503291, 0), x_dir=(0, 0, -1), z_dir=(0.7337298645028701, 0.6794413042615234, 0))):
        Polygon((-9.471942339, 28.639406741), (-6.382619108, 27.209785612), (-6.228065693, 28.022585612), align=None)
    extrude(amount=-BOSS_EXTRUDE6_3_DEPTH)


with BuildPart() as body_5:
    # Sketch13 → Boss-Extrude6 4 (new body)
    with BuildSketch(Plane(origin=(198.614996443, 183.919503291, 0), x_dir=(0, 0, -1), z_dir=(0.7337298645028701, 0.6794413042615234, 0))):
        Polygon((-36.698422095, -114.545282739), (-33.302712556, -114.363611155), (-33.454545449, -115.162103868), align=None)
    extrude(amount=-BOSS_EXTRUDE6_4_DEPTH)


with BuildPart() as cut_extrude17_tool:
    # Sketch25 → Cut-Extrude17 (new body)
    with BuildSketch(Plane(origin=(294.86623267, 0, 0), x_dir=(0, 0, -1), z_dir=(1, 0, 0))):
        with Locations((-46.634056595, 133.972275338)):
            Rectangle(SKETCH25_W, SKETCH25_H)
    extrude(amount=-CUT_EXTRUDE17_DEPTH)


with BuildPart() as part_1:
    add(part.part)

    # Cut-Extrude17: cut by cut_extrude17_tool
    add(cut_extrude17_tool.part, mode=Mode.SUBTRACT)


with BuildPart() as body_2_1:
    add(body_2.part)

    # Cut-Extrude17: cut by cut_extrude17_tool
    add(cut_extrude17_tool.part, mode=Mode.SUBTRACT)


with BuildPart() as body_3_1:
    add(body_3.part)

    # Cut-Extrude17: cut by cut_extrude17_tool
    add(cut_extrude17_tool.part, mode=Mode.SUBTRACT)


with BuildPart() as body_4_1:
    add(body_4.part)

    # Cut-Extrude17: cut by cut_extrude17_tool
    add(cut_extrude17_tool.part, mode=Mode.SUBTRACT)


with BuildPart() as body_5_1:
    add(body_5.part)

    # Cut-Extrude17: cut by cut_extrude17_tool
    add(cut_extrude17_tool.part, mode=Mode.SUBTRACT)


solid = part_1.part
